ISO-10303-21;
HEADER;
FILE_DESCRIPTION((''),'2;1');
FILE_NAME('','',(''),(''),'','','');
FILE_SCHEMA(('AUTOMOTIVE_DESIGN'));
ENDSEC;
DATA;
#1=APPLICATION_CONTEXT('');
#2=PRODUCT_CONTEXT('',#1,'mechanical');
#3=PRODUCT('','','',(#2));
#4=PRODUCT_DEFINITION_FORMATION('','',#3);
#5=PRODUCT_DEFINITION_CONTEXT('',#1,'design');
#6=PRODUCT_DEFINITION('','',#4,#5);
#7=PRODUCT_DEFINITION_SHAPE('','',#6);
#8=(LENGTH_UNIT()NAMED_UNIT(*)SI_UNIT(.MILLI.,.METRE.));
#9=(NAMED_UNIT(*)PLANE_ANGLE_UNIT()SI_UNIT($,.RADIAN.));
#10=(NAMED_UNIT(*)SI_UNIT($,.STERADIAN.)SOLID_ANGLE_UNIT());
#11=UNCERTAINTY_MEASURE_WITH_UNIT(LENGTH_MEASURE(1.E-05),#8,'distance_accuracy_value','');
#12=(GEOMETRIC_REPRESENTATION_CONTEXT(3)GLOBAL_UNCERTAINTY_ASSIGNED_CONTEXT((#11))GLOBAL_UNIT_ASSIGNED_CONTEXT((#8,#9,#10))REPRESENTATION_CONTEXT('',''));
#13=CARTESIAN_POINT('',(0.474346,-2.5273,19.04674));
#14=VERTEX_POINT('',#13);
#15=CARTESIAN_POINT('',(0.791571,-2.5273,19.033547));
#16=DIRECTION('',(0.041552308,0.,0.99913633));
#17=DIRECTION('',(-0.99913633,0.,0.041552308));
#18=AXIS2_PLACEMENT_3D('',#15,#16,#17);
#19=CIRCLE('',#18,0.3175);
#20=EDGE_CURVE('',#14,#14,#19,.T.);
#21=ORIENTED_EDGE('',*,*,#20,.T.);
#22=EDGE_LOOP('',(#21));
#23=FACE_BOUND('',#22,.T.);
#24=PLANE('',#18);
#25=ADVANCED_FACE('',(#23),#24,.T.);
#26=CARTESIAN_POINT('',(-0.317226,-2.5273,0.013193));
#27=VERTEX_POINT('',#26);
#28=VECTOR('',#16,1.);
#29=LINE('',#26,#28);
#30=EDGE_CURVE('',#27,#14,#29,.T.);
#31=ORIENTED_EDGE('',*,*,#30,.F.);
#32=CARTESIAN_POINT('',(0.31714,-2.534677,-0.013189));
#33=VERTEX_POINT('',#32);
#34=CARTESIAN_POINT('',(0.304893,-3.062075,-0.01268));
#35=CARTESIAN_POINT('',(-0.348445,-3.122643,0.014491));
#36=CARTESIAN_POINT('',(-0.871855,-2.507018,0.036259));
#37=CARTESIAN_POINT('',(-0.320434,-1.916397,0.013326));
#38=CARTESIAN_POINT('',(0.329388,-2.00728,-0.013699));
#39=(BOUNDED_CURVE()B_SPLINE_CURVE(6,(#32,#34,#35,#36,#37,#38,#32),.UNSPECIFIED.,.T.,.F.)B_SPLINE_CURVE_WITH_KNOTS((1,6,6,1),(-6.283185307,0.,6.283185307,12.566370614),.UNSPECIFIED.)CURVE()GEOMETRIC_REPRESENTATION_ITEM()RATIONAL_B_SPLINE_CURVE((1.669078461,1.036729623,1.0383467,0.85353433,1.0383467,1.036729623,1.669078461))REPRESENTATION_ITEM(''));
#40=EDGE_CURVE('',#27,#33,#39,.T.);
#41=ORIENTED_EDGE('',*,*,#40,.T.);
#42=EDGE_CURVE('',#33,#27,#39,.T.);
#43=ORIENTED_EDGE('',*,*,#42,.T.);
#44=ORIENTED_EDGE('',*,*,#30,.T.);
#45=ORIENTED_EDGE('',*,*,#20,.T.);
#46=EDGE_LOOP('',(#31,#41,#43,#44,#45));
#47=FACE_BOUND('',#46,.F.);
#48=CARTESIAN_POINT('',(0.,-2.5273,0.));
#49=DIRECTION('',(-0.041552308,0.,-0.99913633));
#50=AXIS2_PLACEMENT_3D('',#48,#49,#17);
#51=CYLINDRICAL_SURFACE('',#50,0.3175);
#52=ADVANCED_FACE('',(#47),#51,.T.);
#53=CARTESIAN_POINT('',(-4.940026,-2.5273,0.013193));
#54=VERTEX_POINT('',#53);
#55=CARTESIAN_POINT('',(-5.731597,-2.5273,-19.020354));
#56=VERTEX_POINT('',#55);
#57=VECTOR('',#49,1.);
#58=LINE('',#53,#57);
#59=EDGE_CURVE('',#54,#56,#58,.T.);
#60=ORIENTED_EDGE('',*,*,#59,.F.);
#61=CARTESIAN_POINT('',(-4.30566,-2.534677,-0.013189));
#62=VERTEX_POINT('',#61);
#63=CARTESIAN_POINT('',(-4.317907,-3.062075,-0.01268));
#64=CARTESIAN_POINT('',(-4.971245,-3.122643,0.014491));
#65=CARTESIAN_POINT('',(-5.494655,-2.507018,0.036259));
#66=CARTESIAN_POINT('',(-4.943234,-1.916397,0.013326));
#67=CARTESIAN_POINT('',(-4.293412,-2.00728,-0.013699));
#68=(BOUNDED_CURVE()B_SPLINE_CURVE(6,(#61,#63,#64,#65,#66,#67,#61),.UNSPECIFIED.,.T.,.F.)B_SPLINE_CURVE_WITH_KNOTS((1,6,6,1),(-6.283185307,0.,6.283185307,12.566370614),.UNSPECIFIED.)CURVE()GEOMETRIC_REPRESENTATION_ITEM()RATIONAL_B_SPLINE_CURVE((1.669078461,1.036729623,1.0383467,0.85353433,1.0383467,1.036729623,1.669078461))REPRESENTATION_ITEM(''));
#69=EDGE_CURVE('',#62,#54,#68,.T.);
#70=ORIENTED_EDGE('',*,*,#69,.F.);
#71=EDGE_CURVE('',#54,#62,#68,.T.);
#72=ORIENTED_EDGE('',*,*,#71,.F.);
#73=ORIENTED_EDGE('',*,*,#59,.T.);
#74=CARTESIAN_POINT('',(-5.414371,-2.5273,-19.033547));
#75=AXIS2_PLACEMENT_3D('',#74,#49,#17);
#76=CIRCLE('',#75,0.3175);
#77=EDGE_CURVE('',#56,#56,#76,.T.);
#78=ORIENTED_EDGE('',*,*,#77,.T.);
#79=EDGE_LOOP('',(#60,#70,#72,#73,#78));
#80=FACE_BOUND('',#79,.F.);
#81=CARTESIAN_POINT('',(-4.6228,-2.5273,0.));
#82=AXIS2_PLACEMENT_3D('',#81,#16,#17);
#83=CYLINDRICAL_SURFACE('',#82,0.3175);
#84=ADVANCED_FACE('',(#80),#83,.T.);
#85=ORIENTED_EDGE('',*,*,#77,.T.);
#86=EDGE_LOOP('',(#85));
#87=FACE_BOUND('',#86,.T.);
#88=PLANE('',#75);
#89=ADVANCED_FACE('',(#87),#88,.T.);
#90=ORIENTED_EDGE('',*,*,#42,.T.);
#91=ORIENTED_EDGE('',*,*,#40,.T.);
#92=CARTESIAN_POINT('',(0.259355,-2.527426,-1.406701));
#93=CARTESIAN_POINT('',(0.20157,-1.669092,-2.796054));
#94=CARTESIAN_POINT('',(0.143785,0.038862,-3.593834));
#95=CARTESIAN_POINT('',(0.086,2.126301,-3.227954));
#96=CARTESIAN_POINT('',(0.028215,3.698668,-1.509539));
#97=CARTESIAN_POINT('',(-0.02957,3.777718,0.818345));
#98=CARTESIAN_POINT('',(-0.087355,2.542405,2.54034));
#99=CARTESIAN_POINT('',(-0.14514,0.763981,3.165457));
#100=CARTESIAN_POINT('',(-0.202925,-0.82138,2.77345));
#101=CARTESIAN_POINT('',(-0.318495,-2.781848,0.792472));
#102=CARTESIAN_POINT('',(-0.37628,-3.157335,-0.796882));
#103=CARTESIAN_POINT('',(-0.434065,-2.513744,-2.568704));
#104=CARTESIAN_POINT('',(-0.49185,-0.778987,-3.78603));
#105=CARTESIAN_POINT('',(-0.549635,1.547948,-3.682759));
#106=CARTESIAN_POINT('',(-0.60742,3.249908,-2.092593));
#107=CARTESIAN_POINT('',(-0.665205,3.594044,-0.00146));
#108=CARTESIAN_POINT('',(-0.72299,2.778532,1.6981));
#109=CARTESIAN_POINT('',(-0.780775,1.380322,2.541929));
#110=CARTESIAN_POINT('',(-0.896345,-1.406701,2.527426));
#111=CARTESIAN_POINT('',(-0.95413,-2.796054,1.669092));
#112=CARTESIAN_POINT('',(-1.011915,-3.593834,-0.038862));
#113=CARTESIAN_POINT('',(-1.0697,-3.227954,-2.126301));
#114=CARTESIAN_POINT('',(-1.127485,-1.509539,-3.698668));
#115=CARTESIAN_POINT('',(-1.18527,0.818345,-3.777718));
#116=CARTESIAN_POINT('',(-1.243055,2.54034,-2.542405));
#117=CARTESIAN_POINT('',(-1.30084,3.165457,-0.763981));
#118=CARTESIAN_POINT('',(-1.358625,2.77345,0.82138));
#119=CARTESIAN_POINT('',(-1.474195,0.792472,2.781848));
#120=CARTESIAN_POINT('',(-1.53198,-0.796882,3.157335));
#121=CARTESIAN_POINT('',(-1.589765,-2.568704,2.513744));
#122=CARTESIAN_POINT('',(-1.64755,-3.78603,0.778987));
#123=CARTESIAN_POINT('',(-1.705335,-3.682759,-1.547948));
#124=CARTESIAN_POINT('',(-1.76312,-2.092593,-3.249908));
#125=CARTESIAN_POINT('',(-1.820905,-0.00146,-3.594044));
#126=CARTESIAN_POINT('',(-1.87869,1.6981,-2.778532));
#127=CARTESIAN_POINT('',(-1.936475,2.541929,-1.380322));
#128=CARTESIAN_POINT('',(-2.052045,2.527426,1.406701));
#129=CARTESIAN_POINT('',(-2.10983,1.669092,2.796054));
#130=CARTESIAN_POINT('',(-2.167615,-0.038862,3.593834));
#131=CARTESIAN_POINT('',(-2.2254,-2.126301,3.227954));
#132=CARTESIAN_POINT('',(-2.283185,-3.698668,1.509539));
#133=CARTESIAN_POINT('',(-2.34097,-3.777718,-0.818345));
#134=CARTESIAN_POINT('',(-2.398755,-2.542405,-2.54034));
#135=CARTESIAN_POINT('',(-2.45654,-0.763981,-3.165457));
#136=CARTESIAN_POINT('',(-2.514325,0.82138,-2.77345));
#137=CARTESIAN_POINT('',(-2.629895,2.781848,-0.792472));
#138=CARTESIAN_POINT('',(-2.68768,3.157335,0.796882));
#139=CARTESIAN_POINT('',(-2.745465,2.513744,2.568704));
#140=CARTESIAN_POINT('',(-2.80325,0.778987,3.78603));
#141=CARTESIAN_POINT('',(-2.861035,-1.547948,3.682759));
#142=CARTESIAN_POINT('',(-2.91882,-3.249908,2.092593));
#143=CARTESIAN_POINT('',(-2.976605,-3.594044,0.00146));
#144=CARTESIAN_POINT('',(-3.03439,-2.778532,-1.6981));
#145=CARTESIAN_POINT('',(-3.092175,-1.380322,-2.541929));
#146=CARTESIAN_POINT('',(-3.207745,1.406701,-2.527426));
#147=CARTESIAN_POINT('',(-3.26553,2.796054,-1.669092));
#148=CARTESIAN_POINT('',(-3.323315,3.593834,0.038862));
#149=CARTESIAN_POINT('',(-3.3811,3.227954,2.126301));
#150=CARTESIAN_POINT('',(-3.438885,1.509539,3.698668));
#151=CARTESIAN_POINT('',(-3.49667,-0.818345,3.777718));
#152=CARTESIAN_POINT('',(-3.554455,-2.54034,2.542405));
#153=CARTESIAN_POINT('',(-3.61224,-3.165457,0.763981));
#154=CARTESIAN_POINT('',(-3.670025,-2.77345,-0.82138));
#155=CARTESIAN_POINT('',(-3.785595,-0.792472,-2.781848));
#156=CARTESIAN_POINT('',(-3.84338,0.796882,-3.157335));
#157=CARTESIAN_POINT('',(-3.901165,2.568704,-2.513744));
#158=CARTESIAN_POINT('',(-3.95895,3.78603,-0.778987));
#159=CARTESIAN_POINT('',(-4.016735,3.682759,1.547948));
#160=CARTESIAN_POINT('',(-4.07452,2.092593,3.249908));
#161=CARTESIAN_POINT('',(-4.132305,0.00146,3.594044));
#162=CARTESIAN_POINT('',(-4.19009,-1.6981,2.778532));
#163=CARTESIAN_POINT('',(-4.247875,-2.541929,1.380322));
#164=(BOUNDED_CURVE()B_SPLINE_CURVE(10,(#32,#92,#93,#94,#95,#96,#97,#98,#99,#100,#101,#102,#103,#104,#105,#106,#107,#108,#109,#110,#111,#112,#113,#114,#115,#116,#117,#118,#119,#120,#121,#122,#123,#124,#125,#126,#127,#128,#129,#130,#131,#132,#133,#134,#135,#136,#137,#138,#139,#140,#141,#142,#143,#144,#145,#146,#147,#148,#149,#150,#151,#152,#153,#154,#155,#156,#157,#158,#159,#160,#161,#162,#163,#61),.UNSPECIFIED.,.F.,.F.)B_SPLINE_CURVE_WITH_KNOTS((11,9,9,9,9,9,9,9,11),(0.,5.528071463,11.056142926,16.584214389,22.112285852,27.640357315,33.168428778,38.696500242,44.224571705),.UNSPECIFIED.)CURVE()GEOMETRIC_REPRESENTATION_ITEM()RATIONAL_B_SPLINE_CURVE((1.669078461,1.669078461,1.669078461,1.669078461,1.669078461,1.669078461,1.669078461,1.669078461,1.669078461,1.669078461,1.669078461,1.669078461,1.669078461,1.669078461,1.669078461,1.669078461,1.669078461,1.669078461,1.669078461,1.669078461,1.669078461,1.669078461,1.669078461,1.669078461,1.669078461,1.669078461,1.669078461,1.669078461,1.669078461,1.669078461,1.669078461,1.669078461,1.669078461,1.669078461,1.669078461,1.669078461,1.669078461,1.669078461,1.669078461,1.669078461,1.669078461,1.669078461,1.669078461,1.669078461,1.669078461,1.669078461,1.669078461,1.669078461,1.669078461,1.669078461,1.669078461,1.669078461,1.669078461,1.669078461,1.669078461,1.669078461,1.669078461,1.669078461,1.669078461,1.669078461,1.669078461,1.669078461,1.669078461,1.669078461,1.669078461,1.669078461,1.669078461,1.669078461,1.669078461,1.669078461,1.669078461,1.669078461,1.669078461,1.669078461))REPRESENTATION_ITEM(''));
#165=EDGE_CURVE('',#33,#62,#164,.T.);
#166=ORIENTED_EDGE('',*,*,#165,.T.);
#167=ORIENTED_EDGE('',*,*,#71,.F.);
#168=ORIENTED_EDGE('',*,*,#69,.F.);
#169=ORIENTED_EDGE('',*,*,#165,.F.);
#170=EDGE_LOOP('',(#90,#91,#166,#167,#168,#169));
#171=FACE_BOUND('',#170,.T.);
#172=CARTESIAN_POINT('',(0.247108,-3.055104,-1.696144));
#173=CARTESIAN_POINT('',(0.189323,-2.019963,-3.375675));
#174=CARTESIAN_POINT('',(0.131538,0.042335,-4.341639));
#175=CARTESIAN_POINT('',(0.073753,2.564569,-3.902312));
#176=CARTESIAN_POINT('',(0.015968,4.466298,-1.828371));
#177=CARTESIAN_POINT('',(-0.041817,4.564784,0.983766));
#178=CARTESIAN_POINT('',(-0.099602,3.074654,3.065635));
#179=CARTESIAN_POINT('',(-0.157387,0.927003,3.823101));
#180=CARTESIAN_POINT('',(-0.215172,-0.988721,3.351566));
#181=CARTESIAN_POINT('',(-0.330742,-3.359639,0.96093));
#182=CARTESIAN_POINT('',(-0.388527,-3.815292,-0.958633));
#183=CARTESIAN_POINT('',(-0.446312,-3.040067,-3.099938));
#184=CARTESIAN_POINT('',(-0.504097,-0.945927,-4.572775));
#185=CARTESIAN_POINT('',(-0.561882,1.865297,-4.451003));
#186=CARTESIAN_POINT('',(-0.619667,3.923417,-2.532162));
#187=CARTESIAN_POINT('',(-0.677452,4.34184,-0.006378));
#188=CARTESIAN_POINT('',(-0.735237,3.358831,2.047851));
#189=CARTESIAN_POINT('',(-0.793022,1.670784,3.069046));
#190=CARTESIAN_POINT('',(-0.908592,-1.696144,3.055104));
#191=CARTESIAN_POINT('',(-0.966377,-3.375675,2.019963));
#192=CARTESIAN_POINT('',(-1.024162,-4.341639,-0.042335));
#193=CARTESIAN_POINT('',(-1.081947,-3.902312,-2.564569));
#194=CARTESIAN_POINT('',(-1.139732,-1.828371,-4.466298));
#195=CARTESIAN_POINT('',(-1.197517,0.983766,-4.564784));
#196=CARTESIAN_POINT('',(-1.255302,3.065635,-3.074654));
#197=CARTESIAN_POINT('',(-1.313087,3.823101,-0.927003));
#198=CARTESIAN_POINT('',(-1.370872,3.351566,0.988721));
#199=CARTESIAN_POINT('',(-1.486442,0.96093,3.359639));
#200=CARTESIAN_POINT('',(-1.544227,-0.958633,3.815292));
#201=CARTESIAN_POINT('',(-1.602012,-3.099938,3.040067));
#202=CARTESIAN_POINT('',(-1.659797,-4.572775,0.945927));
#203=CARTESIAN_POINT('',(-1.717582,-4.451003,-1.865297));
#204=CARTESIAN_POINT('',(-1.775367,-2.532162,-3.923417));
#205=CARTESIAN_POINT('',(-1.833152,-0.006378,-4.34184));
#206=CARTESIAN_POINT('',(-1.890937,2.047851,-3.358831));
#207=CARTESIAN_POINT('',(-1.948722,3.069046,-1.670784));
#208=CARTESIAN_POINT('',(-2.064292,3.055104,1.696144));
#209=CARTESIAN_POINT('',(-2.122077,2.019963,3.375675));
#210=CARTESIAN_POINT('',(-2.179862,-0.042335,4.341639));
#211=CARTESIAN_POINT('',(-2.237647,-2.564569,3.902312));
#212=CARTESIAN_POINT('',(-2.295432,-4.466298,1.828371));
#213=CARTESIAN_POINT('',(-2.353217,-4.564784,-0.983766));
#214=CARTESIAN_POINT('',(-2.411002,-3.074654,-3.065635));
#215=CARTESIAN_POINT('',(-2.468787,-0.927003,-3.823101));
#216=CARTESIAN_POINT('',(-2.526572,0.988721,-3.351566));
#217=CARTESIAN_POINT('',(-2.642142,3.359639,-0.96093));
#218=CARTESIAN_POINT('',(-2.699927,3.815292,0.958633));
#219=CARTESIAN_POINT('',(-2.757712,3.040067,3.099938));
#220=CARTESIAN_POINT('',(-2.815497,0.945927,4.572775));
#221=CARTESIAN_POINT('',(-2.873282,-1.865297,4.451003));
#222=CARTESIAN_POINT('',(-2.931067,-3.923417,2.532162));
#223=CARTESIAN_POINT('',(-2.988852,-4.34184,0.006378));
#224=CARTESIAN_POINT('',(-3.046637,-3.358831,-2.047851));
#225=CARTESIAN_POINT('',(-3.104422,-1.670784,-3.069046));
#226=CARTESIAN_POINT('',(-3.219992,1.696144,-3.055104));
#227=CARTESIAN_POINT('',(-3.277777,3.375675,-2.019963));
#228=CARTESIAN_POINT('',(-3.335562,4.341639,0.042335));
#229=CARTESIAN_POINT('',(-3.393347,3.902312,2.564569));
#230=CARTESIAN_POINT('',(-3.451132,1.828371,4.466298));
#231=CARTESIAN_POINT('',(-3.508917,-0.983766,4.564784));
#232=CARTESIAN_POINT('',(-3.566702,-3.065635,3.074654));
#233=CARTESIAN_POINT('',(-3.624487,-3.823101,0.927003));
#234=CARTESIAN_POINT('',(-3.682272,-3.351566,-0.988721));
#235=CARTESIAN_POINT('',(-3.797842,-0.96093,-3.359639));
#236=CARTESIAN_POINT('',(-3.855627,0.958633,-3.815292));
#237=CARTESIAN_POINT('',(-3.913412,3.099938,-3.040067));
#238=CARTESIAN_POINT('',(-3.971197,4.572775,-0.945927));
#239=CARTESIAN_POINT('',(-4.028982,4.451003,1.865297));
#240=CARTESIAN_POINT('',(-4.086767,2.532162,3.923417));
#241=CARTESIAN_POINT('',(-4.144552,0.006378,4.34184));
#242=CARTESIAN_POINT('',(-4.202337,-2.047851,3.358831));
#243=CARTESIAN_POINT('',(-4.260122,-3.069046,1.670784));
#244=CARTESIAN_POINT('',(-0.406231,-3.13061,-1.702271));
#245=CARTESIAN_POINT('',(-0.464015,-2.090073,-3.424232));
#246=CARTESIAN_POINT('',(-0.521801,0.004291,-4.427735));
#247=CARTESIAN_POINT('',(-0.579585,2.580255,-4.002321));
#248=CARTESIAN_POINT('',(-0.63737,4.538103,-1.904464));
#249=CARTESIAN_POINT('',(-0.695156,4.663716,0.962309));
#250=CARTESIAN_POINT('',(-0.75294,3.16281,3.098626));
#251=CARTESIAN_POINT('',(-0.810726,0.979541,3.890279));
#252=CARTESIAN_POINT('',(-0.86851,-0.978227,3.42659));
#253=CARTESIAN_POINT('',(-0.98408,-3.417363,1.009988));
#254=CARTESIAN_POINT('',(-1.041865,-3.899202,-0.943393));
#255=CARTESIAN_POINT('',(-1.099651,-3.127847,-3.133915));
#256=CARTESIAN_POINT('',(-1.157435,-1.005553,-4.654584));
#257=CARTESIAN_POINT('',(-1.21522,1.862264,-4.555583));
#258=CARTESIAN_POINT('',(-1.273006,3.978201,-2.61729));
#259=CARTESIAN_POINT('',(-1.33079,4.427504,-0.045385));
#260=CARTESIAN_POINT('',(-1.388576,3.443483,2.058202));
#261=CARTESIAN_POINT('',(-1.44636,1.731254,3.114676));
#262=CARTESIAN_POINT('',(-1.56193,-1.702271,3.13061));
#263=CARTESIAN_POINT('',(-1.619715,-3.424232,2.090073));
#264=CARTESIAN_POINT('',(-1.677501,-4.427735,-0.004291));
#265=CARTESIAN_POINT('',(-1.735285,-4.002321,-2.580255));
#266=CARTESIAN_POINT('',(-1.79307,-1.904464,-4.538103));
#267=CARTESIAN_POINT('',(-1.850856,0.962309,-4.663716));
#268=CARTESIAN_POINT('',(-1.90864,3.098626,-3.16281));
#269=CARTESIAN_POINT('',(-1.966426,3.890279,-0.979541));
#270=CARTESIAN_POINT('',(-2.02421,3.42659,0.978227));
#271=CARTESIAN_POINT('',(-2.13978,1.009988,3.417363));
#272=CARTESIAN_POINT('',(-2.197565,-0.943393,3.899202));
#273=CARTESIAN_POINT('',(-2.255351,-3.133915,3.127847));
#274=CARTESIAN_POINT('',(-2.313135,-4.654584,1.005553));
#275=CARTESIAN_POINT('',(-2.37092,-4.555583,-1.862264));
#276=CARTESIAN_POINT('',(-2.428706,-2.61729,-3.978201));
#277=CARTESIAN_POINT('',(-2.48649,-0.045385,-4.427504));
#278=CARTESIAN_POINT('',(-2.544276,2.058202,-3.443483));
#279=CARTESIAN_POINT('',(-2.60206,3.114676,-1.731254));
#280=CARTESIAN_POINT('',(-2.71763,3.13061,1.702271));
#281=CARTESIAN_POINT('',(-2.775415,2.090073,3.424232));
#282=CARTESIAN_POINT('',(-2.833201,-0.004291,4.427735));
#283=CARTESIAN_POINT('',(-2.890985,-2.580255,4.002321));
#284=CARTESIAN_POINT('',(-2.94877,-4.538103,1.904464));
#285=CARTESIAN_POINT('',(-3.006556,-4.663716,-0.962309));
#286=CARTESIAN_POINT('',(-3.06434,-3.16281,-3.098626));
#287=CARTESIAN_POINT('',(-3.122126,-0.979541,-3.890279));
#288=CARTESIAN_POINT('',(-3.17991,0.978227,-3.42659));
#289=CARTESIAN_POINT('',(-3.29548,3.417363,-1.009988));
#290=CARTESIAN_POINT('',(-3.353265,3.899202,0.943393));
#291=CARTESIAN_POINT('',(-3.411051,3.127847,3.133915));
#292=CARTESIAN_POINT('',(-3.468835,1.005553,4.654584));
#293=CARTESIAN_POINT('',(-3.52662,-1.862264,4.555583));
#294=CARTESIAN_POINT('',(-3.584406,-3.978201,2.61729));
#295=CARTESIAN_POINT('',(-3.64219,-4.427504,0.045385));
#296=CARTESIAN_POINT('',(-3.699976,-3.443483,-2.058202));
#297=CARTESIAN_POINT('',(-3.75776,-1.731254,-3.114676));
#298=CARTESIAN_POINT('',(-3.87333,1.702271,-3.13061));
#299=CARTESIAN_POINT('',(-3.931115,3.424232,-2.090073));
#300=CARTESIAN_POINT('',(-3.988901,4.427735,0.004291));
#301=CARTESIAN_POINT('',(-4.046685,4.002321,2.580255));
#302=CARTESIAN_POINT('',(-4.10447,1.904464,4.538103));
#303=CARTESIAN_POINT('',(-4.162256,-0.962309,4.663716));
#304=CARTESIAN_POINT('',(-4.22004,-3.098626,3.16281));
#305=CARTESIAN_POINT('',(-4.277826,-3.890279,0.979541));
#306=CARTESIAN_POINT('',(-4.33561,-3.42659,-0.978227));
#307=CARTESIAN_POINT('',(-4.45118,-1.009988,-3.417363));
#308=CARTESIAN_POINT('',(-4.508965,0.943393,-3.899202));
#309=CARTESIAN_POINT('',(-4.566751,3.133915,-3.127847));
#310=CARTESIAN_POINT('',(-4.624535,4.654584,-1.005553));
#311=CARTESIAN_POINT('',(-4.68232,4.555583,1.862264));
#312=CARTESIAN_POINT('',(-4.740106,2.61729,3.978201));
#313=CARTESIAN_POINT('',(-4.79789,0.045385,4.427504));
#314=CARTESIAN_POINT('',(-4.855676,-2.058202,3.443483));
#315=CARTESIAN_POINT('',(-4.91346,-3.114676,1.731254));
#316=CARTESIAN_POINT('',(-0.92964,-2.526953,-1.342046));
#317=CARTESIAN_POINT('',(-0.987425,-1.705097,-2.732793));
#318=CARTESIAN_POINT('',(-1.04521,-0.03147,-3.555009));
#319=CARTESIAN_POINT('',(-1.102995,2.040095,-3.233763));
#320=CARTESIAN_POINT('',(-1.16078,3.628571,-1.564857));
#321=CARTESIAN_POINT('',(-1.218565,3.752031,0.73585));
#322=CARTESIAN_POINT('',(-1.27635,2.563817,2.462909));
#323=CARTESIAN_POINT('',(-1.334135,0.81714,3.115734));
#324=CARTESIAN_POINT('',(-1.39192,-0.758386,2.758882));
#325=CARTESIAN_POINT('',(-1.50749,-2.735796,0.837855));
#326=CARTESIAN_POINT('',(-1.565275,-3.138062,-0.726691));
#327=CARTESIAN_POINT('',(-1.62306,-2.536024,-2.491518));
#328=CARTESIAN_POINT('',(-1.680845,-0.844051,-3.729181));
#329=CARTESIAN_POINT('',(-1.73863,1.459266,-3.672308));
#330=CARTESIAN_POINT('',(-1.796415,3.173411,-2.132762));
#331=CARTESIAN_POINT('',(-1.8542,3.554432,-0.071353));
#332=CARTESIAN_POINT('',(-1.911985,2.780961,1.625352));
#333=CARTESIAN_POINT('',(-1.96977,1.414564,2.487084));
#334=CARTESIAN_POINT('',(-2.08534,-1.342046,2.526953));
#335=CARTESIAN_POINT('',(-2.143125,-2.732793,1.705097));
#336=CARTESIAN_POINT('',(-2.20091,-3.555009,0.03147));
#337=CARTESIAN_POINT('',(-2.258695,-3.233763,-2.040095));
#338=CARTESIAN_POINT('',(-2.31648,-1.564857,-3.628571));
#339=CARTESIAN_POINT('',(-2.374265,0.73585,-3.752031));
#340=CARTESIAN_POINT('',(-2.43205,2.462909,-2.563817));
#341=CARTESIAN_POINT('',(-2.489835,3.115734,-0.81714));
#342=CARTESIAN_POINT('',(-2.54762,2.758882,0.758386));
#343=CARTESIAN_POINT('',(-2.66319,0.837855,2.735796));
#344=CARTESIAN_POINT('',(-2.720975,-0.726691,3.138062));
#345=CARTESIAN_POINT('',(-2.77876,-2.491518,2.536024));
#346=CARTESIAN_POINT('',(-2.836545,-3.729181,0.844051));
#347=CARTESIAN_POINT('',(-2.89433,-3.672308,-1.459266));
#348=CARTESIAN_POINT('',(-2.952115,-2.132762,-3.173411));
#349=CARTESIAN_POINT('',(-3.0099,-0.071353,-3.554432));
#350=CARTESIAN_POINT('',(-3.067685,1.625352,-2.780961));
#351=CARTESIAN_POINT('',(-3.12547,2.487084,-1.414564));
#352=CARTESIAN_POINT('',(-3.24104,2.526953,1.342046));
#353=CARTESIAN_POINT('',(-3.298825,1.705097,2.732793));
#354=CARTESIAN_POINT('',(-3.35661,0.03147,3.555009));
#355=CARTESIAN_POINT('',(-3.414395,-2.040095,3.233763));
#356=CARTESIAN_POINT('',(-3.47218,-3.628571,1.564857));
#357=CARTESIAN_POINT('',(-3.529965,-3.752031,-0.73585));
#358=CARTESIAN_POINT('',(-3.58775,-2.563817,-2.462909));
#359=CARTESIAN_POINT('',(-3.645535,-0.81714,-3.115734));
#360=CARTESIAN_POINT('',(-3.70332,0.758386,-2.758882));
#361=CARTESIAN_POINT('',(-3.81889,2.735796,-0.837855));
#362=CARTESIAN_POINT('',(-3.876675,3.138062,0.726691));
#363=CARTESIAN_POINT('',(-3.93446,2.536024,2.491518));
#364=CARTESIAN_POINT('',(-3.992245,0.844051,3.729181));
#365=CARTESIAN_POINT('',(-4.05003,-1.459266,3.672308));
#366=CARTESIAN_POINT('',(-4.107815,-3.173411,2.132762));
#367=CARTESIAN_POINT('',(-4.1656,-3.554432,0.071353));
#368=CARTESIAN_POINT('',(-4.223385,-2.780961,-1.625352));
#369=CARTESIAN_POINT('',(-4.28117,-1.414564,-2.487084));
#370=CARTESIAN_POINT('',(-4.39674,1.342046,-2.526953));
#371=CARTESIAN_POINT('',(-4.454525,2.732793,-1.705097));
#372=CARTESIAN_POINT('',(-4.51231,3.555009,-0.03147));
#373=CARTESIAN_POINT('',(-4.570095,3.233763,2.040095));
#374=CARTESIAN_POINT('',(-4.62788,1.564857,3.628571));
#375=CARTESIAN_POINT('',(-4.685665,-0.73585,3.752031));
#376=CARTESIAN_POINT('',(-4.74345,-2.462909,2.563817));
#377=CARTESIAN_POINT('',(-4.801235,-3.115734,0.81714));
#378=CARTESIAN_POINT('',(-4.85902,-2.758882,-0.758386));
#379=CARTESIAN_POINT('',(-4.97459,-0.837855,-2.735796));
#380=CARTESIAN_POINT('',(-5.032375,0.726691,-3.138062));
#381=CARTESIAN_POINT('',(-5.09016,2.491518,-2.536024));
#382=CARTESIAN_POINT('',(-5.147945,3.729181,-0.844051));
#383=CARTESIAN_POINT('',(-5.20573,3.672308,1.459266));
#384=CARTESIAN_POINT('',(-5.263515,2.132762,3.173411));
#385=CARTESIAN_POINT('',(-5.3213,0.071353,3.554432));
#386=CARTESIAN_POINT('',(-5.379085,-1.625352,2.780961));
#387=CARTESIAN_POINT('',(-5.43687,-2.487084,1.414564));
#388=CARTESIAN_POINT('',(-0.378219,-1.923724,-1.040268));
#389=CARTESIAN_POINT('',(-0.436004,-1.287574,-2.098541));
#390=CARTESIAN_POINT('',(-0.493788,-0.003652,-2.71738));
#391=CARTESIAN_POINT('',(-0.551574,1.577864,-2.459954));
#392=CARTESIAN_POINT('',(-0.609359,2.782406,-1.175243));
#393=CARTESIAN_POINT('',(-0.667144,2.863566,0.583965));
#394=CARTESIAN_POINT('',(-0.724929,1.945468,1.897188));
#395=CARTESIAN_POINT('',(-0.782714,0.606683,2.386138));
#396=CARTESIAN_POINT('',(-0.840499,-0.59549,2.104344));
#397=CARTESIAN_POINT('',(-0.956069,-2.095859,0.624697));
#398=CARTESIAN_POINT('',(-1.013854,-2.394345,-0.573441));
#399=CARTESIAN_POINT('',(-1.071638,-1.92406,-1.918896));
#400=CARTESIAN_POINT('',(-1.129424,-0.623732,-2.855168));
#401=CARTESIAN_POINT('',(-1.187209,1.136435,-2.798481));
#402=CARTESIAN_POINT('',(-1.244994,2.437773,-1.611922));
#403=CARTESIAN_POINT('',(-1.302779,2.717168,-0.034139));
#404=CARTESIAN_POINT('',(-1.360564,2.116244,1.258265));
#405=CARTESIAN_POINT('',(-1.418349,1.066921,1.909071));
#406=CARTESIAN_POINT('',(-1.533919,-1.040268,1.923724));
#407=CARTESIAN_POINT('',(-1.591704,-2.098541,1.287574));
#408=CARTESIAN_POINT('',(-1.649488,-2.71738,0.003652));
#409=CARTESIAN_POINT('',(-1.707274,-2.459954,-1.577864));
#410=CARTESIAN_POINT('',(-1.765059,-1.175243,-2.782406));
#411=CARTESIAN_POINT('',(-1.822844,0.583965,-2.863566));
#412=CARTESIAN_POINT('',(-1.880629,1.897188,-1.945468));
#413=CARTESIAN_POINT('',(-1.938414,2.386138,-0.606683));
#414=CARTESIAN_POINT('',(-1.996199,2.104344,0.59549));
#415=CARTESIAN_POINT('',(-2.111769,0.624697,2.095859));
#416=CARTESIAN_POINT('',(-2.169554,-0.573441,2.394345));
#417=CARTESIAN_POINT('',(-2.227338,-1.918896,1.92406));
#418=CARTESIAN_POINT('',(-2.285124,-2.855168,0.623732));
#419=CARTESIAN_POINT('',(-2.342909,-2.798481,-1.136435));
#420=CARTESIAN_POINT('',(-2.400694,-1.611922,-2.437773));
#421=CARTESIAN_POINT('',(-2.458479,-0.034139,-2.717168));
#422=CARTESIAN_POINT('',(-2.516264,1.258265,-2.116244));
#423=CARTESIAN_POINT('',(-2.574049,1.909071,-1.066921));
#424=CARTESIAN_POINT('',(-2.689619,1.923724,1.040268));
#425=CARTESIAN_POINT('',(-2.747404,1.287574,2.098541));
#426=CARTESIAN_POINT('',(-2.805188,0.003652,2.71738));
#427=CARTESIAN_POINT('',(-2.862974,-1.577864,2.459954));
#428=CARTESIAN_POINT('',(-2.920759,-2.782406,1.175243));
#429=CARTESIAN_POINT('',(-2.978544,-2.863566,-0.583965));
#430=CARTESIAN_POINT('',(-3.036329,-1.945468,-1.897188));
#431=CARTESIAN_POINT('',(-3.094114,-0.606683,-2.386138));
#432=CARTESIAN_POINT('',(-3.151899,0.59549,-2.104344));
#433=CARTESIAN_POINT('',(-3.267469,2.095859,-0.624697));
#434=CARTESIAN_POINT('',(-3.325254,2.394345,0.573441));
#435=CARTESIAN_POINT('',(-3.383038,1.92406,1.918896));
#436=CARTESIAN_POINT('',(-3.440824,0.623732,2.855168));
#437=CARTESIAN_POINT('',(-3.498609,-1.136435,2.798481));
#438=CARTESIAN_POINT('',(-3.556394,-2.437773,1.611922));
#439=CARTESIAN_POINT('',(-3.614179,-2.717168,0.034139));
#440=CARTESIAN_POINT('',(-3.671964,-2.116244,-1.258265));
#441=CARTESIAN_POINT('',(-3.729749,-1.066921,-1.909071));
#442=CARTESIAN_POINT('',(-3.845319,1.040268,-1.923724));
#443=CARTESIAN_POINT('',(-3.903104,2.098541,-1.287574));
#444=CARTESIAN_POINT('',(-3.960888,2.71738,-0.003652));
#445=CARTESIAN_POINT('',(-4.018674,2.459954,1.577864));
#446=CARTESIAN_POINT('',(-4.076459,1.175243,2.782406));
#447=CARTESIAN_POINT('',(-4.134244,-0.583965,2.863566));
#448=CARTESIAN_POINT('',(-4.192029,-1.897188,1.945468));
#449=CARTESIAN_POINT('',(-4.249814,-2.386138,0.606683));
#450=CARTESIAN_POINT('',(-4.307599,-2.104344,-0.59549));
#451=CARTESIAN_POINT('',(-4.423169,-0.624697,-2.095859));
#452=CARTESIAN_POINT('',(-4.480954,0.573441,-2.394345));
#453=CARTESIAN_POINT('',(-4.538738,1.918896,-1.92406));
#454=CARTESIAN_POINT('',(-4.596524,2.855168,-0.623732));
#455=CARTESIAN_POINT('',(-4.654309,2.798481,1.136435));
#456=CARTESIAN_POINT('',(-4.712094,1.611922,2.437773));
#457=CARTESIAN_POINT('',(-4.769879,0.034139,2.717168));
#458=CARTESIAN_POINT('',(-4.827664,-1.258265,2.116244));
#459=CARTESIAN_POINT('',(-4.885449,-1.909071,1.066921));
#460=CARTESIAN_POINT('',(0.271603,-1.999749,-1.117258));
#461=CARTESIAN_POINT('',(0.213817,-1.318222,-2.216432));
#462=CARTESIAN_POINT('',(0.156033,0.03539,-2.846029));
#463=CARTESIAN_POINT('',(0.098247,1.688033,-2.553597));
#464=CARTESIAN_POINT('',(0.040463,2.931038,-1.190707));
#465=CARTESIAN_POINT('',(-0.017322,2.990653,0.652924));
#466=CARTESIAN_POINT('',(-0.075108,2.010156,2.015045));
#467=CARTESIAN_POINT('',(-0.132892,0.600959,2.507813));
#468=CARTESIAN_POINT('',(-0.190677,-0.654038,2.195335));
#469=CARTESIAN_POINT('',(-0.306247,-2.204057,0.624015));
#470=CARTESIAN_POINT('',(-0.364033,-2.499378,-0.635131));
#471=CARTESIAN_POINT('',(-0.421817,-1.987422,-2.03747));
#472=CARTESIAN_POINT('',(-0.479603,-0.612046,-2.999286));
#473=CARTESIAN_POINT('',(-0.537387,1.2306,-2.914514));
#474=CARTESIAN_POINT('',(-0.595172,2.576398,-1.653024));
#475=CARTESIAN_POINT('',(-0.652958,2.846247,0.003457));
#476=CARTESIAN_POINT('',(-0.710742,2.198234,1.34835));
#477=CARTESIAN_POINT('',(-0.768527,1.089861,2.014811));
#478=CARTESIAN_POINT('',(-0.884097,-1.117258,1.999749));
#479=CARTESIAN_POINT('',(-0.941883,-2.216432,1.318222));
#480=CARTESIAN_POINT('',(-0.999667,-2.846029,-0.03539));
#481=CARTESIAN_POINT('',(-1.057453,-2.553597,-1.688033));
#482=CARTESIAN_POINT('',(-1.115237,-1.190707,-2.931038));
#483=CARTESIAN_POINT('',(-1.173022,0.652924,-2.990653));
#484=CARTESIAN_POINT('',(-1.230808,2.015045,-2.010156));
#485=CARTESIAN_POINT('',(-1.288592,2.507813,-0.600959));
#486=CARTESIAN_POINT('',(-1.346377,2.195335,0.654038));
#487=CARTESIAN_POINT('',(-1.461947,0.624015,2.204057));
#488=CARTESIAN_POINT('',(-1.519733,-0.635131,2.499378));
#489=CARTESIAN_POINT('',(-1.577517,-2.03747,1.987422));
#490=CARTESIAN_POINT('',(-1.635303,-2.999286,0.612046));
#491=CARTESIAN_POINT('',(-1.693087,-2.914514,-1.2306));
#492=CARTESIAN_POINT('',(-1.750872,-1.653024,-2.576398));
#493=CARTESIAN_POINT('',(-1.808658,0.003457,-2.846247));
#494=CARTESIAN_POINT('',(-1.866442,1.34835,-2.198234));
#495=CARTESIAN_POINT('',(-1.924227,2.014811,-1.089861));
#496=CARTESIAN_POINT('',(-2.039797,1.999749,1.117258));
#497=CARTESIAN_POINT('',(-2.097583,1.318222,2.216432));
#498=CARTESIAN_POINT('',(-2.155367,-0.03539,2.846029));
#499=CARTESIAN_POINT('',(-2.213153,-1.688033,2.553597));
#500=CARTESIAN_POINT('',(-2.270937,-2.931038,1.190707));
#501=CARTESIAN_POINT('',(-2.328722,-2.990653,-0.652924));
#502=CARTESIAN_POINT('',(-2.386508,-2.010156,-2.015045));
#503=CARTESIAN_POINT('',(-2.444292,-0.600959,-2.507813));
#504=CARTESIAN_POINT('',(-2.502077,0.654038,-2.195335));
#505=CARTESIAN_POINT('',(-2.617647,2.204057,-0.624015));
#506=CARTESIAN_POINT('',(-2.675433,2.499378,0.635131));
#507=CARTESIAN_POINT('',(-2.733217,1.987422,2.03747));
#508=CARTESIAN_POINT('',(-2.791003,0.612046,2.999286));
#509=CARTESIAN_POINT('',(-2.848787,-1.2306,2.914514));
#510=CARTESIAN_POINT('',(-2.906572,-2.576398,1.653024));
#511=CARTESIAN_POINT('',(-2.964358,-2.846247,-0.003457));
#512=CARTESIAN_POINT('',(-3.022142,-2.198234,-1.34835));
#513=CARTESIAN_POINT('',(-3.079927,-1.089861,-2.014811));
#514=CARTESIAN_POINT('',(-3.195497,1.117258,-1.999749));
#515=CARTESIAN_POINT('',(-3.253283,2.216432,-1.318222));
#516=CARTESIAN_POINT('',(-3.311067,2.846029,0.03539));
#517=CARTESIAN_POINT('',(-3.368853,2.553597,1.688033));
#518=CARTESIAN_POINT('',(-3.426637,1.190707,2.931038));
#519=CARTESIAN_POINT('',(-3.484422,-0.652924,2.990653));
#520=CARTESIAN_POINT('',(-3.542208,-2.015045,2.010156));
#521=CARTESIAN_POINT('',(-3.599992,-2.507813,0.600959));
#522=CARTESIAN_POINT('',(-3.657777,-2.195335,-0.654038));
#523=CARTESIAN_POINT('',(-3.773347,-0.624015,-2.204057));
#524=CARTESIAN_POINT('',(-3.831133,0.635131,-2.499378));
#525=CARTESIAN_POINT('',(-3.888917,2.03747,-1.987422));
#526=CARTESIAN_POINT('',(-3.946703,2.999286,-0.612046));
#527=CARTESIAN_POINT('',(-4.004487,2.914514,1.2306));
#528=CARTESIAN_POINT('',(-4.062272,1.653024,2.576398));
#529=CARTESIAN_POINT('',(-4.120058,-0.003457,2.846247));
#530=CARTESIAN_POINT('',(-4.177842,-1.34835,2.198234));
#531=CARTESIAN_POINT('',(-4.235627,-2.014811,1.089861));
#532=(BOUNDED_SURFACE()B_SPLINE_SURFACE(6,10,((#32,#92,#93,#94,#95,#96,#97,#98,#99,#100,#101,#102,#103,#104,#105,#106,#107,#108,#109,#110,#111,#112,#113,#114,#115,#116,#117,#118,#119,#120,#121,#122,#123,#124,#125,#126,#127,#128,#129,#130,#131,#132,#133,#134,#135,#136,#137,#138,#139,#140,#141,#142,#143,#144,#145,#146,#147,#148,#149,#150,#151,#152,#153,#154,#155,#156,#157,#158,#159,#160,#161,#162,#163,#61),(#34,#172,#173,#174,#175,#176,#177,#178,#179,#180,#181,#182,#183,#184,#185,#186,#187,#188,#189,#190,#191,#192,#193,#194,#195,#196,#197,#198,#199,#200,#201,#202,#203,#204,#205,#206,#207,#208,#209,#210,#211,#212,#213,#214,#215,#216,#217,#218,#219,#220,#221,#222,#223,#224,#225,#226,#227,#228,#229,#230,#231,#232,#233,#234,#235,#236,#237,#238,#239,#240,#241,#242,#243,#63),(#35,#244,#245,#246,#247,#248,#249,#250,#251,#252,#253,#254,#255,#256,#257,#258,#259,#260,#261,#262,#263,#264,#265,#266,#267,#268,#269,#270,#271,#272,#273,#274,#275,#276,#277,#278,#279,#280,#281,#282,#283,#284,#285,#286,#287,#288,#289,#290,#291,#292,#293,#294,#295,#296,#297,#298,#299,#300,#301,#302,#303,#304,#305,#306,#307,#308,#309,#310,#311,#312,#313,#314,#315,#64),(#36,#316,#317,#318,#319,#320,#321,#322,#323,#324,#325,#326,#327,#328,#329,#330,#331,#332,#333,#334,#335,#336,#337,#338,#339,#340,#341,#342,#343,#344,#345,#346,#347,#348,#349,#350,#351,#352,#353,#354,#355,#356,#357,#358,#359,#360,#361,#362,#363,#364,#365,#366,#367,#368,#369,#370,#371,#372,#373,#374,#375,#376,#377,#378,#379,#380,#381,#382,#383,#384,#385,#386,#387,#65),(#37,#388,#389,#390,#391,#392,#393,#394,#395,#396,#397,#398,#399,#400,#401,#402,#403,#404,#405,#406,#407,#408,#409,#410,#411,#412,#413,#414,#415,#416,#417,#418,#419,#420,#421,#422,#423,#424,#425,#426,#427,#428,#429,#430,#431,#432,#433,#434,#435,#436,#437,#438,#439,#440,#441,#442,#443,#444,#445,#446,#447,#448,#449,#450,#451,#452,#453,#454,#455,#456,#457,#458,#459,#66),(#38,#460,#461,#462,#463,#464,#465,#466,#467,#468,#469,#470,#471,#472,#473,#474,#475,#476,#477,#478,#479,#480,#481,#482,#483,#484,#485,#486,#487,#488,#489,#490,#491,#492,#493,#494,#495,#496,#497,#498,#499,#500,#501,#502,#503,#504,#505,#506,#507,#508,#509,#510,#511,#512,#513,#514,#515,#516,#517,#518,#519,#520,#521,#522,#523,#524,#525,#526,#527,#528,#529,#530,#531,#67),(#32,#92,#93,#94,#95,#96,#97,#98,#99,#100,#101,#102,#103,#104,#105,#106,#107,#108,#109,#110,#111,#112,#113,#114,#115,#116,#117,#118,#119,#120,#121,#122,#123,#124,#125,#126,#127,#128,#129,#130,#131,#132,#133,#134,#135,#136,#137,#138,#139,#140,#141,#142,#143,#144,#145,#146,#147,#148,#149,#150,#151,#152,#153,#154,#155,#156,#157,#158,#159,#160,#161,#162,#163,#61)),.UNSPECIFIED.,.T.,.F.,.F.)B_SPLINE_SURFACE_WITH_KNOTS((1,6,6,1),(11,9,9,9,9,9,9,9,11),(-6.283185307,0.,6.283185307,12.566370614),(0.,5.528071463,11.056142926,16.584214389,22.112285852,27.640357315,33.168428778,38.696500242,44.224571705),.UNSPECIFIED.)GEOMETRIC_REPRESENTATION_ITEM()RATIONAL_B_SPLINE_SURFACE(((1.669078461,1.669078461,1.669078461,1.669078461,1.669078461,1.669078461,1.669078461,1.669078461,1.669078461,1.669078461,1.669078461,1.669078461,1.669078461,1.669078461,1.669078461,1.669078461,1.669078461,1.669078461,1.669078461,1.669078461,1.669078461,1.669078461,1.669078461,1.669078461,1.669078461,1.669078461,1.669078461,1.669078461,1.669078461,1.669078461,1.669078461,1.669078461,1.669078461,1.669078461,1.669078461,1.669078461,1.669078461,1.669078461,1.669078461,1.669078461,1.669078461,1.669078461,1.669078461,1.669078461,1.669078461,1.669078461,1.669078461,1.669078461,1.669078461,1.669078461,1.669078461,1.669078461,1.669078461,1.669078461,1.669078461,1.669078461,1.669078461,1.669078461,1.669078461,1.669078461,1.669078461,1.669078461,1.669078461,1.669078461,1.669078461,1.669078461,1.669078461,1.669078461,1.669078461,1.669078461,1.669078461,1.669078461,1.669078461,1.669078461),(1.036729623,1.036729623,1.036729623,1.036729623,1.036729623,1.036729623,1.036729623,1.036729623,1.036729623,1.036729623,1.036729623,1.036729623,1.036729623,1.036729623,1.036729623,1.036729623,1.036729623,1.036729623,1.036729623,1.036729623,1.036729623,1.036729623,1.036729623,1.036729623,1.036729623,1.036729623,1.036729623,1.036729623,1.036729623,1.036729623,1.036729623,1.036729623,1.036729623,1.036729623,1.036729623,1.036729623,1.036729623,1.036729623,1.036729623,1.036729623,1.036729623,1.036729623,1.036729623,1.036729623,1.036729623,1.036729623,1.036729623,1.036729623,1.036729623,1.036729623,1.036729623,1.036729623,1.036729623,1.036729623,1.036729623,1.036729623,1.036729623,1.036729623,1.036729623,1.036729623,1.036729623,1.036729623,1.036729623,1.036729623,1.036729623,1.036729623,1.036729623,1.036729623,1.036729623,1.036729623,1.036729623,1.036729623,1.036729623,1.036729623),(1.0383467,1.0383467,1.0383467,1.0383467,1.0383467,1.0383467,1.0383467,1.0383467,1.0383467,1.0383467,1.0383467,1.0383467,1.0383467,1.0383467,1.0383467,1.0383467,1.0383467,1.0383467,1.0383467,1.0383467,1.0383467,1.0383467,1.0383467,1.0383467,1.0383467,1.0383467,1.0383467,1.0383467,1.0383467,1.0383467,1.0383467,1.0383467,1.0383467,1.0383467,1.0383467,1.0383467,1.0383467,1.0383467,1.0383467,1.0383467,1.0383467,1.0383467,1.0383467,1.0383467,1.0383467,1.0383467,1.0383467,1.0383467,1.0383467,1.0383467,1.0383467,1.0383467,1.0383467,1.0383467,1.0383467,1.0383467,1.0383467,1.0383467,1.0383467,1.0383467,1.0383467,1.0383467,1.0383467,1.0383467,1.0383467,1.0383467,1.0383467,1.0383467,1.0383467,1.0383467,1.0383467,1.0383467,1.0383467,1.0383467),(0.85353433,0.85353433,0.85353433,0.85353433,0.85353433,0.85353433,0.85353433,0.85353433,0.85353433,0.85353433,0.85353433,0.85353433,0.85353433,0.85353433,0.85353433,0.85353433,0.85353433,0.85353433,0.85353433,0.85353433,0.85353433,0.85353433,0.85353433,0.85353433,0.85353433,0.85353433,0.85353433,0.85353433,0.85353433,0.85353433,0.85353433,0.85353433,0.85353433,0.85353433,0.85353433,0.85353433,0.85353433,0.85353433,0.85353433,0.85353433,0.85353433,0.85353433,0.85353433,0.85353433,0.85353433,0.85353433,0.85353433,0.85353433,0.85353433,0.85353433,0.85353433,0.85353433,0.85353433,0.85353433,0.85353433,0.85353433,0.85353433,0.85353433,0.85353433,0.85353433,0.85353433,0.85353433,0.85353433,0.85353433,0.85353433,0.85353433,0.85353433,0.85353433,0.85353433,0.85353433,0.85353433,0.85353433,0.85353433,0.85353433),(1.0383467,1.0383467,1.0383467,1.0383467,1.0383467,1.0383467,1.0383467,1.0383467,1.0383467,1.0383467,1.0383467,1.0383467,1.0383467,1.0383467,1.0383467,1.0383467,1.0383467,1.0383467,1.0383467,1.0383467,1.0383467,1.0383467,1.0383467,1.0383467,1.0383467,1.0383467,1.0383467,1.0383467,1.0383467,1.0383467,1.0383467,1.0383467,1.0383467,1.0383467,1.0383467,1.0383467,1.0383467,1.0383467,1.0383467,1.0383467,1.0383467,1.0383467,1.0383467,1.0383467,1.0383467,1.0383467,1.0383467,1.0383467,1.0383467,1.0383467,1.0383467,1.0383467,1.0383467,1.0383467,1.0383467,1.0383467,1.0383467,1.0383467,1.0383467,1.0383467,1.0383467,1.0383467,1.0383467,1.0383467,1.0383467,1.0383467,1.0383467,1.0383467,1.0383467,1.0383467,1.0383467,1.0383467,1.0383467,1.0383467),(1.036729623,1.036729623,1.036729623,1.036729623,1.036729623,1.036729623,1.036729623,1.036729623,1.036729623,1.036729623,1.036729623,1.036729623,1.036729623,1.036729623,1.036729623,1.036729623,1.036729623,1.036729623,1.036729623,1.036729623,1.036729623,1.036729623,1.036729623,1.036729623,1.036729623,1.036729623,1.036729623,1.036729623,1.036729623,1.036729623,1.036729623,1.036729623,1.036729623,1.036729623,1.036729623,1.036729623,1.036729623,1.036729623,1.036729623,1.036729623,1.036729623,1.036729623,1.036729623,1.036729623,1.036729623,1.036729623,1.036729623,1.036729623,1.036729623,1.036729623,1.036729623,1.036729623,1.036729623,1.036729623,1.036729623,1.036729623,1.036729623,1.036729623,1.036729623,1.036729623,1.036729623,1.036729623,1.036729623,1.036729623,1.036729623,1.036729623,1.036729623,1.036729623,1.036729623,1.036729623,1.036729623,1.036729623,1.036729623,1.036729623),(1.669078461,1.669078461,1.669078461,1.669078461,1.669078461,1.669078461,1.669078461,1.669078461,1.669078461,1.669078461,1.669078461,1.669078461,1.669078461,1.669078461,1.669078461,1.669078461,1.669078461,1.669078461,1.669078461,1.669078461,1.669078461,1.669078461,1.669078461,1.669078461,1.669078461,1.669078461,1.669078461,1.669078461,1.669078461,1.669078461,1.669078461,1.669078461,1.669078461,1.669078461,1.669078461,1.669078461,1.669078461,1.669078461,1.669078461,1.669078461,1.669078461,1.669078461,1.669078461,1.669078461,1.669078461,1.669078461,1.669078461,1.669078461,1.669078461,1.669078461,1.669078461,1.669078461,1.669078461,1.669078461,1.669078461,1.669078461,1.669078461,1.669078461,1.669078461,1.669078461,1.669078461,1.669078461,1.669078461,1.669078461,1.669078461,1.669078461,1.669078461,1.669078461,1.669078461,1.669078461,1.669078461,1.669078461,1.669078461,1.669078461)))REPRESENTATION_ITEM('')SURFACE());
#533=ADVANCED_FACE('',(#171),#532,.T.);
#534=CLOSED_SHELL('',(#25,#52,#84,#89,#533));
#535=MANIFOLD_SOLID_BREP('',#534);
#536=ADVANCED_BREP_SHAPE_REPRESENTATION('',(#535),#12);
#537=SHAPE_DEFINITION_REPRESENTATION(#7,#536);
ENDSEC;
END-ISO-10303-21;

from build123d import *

# Parameters (mm, degrees)
SWEEP1_PITCH       = 0.6604
SWEEP1_HEIGHT      = 4.6228
SWEEP1_RADIUS      = 2.5273
SWEEP1_START_ANGLE = 90
SKETCH3_R          = 0.3175
SKETCH4_R          = 0.3175
EXTRUDE1_DEPTH     = 19.05
SKETCH5_R          = 0.3175
EXTRUDE2_DEPTH     = 19.05


with BuildPart() as part:
    # Sweep1: sweep along a helix
    with BuildLine() as sweep1_path:
        add(Helix(SWEEP1_PITCH, SWEEP1_HEIGHT, SWEEP1_RADIUS, center=(0, 0, 0), direction=(-1, 0, 0), lefthand=True, mode=Mode.PRIVATE).rotate(Axis((0, 0, 0), (-1, 0, 0)), SWEEP1_START_ANGLE))
    # Sketch3 → Sweep1 (sweep)
    with BuildSketch(Plane(origin=(0, -2.5273, 0), x_dir=(0.9988665677845978, -0.023236129092747772, -0.04154108890006059), z_dir=(-0.04155230782772583, 9.227644690024128e-15, -0.9991363298940691))):
        Circle(SKETCH3_R)
    sweep(path=sweep1_path.line, is_frenet=True)

    # Sketch4 → Extrude1 (add)
    with BuildSketch(Plane(origin=(0, 0, 0), x_dir=(-0.9988665677845978, 0.023236129092747804, 0.04154108890006059), z_dir=(0.04155230782772582, -9.227319429372383e-15, 0.999136329894069))):
        with Locations(Location((-0.058724669, 2.526617641, 0), (0, 0, 1.33145196))):
            Circle(SKETCH4_R)
    extrude(amount=EXTRUDE1_DEPTH)

    # Sketch5 → Extrude2 (add)
    with BuildSketch(Plane(origin=(-0.0079817, 0, -0.191922108), x_dir=(0.9978899151022226, 0.04993423865780966, -0.041500471647249175), z_dir=(-0.04155230782772582, 1.067626889672546e-13, -0.9991363298940691))):
        with Locations(Location((-4.739244301, 2.293510581, 0), (0, 0, 182.862211423))):
            Circle(SKETCH5_R)
    extrude(amount=EXTRUDE2_DEPTH)


solid = part.part
